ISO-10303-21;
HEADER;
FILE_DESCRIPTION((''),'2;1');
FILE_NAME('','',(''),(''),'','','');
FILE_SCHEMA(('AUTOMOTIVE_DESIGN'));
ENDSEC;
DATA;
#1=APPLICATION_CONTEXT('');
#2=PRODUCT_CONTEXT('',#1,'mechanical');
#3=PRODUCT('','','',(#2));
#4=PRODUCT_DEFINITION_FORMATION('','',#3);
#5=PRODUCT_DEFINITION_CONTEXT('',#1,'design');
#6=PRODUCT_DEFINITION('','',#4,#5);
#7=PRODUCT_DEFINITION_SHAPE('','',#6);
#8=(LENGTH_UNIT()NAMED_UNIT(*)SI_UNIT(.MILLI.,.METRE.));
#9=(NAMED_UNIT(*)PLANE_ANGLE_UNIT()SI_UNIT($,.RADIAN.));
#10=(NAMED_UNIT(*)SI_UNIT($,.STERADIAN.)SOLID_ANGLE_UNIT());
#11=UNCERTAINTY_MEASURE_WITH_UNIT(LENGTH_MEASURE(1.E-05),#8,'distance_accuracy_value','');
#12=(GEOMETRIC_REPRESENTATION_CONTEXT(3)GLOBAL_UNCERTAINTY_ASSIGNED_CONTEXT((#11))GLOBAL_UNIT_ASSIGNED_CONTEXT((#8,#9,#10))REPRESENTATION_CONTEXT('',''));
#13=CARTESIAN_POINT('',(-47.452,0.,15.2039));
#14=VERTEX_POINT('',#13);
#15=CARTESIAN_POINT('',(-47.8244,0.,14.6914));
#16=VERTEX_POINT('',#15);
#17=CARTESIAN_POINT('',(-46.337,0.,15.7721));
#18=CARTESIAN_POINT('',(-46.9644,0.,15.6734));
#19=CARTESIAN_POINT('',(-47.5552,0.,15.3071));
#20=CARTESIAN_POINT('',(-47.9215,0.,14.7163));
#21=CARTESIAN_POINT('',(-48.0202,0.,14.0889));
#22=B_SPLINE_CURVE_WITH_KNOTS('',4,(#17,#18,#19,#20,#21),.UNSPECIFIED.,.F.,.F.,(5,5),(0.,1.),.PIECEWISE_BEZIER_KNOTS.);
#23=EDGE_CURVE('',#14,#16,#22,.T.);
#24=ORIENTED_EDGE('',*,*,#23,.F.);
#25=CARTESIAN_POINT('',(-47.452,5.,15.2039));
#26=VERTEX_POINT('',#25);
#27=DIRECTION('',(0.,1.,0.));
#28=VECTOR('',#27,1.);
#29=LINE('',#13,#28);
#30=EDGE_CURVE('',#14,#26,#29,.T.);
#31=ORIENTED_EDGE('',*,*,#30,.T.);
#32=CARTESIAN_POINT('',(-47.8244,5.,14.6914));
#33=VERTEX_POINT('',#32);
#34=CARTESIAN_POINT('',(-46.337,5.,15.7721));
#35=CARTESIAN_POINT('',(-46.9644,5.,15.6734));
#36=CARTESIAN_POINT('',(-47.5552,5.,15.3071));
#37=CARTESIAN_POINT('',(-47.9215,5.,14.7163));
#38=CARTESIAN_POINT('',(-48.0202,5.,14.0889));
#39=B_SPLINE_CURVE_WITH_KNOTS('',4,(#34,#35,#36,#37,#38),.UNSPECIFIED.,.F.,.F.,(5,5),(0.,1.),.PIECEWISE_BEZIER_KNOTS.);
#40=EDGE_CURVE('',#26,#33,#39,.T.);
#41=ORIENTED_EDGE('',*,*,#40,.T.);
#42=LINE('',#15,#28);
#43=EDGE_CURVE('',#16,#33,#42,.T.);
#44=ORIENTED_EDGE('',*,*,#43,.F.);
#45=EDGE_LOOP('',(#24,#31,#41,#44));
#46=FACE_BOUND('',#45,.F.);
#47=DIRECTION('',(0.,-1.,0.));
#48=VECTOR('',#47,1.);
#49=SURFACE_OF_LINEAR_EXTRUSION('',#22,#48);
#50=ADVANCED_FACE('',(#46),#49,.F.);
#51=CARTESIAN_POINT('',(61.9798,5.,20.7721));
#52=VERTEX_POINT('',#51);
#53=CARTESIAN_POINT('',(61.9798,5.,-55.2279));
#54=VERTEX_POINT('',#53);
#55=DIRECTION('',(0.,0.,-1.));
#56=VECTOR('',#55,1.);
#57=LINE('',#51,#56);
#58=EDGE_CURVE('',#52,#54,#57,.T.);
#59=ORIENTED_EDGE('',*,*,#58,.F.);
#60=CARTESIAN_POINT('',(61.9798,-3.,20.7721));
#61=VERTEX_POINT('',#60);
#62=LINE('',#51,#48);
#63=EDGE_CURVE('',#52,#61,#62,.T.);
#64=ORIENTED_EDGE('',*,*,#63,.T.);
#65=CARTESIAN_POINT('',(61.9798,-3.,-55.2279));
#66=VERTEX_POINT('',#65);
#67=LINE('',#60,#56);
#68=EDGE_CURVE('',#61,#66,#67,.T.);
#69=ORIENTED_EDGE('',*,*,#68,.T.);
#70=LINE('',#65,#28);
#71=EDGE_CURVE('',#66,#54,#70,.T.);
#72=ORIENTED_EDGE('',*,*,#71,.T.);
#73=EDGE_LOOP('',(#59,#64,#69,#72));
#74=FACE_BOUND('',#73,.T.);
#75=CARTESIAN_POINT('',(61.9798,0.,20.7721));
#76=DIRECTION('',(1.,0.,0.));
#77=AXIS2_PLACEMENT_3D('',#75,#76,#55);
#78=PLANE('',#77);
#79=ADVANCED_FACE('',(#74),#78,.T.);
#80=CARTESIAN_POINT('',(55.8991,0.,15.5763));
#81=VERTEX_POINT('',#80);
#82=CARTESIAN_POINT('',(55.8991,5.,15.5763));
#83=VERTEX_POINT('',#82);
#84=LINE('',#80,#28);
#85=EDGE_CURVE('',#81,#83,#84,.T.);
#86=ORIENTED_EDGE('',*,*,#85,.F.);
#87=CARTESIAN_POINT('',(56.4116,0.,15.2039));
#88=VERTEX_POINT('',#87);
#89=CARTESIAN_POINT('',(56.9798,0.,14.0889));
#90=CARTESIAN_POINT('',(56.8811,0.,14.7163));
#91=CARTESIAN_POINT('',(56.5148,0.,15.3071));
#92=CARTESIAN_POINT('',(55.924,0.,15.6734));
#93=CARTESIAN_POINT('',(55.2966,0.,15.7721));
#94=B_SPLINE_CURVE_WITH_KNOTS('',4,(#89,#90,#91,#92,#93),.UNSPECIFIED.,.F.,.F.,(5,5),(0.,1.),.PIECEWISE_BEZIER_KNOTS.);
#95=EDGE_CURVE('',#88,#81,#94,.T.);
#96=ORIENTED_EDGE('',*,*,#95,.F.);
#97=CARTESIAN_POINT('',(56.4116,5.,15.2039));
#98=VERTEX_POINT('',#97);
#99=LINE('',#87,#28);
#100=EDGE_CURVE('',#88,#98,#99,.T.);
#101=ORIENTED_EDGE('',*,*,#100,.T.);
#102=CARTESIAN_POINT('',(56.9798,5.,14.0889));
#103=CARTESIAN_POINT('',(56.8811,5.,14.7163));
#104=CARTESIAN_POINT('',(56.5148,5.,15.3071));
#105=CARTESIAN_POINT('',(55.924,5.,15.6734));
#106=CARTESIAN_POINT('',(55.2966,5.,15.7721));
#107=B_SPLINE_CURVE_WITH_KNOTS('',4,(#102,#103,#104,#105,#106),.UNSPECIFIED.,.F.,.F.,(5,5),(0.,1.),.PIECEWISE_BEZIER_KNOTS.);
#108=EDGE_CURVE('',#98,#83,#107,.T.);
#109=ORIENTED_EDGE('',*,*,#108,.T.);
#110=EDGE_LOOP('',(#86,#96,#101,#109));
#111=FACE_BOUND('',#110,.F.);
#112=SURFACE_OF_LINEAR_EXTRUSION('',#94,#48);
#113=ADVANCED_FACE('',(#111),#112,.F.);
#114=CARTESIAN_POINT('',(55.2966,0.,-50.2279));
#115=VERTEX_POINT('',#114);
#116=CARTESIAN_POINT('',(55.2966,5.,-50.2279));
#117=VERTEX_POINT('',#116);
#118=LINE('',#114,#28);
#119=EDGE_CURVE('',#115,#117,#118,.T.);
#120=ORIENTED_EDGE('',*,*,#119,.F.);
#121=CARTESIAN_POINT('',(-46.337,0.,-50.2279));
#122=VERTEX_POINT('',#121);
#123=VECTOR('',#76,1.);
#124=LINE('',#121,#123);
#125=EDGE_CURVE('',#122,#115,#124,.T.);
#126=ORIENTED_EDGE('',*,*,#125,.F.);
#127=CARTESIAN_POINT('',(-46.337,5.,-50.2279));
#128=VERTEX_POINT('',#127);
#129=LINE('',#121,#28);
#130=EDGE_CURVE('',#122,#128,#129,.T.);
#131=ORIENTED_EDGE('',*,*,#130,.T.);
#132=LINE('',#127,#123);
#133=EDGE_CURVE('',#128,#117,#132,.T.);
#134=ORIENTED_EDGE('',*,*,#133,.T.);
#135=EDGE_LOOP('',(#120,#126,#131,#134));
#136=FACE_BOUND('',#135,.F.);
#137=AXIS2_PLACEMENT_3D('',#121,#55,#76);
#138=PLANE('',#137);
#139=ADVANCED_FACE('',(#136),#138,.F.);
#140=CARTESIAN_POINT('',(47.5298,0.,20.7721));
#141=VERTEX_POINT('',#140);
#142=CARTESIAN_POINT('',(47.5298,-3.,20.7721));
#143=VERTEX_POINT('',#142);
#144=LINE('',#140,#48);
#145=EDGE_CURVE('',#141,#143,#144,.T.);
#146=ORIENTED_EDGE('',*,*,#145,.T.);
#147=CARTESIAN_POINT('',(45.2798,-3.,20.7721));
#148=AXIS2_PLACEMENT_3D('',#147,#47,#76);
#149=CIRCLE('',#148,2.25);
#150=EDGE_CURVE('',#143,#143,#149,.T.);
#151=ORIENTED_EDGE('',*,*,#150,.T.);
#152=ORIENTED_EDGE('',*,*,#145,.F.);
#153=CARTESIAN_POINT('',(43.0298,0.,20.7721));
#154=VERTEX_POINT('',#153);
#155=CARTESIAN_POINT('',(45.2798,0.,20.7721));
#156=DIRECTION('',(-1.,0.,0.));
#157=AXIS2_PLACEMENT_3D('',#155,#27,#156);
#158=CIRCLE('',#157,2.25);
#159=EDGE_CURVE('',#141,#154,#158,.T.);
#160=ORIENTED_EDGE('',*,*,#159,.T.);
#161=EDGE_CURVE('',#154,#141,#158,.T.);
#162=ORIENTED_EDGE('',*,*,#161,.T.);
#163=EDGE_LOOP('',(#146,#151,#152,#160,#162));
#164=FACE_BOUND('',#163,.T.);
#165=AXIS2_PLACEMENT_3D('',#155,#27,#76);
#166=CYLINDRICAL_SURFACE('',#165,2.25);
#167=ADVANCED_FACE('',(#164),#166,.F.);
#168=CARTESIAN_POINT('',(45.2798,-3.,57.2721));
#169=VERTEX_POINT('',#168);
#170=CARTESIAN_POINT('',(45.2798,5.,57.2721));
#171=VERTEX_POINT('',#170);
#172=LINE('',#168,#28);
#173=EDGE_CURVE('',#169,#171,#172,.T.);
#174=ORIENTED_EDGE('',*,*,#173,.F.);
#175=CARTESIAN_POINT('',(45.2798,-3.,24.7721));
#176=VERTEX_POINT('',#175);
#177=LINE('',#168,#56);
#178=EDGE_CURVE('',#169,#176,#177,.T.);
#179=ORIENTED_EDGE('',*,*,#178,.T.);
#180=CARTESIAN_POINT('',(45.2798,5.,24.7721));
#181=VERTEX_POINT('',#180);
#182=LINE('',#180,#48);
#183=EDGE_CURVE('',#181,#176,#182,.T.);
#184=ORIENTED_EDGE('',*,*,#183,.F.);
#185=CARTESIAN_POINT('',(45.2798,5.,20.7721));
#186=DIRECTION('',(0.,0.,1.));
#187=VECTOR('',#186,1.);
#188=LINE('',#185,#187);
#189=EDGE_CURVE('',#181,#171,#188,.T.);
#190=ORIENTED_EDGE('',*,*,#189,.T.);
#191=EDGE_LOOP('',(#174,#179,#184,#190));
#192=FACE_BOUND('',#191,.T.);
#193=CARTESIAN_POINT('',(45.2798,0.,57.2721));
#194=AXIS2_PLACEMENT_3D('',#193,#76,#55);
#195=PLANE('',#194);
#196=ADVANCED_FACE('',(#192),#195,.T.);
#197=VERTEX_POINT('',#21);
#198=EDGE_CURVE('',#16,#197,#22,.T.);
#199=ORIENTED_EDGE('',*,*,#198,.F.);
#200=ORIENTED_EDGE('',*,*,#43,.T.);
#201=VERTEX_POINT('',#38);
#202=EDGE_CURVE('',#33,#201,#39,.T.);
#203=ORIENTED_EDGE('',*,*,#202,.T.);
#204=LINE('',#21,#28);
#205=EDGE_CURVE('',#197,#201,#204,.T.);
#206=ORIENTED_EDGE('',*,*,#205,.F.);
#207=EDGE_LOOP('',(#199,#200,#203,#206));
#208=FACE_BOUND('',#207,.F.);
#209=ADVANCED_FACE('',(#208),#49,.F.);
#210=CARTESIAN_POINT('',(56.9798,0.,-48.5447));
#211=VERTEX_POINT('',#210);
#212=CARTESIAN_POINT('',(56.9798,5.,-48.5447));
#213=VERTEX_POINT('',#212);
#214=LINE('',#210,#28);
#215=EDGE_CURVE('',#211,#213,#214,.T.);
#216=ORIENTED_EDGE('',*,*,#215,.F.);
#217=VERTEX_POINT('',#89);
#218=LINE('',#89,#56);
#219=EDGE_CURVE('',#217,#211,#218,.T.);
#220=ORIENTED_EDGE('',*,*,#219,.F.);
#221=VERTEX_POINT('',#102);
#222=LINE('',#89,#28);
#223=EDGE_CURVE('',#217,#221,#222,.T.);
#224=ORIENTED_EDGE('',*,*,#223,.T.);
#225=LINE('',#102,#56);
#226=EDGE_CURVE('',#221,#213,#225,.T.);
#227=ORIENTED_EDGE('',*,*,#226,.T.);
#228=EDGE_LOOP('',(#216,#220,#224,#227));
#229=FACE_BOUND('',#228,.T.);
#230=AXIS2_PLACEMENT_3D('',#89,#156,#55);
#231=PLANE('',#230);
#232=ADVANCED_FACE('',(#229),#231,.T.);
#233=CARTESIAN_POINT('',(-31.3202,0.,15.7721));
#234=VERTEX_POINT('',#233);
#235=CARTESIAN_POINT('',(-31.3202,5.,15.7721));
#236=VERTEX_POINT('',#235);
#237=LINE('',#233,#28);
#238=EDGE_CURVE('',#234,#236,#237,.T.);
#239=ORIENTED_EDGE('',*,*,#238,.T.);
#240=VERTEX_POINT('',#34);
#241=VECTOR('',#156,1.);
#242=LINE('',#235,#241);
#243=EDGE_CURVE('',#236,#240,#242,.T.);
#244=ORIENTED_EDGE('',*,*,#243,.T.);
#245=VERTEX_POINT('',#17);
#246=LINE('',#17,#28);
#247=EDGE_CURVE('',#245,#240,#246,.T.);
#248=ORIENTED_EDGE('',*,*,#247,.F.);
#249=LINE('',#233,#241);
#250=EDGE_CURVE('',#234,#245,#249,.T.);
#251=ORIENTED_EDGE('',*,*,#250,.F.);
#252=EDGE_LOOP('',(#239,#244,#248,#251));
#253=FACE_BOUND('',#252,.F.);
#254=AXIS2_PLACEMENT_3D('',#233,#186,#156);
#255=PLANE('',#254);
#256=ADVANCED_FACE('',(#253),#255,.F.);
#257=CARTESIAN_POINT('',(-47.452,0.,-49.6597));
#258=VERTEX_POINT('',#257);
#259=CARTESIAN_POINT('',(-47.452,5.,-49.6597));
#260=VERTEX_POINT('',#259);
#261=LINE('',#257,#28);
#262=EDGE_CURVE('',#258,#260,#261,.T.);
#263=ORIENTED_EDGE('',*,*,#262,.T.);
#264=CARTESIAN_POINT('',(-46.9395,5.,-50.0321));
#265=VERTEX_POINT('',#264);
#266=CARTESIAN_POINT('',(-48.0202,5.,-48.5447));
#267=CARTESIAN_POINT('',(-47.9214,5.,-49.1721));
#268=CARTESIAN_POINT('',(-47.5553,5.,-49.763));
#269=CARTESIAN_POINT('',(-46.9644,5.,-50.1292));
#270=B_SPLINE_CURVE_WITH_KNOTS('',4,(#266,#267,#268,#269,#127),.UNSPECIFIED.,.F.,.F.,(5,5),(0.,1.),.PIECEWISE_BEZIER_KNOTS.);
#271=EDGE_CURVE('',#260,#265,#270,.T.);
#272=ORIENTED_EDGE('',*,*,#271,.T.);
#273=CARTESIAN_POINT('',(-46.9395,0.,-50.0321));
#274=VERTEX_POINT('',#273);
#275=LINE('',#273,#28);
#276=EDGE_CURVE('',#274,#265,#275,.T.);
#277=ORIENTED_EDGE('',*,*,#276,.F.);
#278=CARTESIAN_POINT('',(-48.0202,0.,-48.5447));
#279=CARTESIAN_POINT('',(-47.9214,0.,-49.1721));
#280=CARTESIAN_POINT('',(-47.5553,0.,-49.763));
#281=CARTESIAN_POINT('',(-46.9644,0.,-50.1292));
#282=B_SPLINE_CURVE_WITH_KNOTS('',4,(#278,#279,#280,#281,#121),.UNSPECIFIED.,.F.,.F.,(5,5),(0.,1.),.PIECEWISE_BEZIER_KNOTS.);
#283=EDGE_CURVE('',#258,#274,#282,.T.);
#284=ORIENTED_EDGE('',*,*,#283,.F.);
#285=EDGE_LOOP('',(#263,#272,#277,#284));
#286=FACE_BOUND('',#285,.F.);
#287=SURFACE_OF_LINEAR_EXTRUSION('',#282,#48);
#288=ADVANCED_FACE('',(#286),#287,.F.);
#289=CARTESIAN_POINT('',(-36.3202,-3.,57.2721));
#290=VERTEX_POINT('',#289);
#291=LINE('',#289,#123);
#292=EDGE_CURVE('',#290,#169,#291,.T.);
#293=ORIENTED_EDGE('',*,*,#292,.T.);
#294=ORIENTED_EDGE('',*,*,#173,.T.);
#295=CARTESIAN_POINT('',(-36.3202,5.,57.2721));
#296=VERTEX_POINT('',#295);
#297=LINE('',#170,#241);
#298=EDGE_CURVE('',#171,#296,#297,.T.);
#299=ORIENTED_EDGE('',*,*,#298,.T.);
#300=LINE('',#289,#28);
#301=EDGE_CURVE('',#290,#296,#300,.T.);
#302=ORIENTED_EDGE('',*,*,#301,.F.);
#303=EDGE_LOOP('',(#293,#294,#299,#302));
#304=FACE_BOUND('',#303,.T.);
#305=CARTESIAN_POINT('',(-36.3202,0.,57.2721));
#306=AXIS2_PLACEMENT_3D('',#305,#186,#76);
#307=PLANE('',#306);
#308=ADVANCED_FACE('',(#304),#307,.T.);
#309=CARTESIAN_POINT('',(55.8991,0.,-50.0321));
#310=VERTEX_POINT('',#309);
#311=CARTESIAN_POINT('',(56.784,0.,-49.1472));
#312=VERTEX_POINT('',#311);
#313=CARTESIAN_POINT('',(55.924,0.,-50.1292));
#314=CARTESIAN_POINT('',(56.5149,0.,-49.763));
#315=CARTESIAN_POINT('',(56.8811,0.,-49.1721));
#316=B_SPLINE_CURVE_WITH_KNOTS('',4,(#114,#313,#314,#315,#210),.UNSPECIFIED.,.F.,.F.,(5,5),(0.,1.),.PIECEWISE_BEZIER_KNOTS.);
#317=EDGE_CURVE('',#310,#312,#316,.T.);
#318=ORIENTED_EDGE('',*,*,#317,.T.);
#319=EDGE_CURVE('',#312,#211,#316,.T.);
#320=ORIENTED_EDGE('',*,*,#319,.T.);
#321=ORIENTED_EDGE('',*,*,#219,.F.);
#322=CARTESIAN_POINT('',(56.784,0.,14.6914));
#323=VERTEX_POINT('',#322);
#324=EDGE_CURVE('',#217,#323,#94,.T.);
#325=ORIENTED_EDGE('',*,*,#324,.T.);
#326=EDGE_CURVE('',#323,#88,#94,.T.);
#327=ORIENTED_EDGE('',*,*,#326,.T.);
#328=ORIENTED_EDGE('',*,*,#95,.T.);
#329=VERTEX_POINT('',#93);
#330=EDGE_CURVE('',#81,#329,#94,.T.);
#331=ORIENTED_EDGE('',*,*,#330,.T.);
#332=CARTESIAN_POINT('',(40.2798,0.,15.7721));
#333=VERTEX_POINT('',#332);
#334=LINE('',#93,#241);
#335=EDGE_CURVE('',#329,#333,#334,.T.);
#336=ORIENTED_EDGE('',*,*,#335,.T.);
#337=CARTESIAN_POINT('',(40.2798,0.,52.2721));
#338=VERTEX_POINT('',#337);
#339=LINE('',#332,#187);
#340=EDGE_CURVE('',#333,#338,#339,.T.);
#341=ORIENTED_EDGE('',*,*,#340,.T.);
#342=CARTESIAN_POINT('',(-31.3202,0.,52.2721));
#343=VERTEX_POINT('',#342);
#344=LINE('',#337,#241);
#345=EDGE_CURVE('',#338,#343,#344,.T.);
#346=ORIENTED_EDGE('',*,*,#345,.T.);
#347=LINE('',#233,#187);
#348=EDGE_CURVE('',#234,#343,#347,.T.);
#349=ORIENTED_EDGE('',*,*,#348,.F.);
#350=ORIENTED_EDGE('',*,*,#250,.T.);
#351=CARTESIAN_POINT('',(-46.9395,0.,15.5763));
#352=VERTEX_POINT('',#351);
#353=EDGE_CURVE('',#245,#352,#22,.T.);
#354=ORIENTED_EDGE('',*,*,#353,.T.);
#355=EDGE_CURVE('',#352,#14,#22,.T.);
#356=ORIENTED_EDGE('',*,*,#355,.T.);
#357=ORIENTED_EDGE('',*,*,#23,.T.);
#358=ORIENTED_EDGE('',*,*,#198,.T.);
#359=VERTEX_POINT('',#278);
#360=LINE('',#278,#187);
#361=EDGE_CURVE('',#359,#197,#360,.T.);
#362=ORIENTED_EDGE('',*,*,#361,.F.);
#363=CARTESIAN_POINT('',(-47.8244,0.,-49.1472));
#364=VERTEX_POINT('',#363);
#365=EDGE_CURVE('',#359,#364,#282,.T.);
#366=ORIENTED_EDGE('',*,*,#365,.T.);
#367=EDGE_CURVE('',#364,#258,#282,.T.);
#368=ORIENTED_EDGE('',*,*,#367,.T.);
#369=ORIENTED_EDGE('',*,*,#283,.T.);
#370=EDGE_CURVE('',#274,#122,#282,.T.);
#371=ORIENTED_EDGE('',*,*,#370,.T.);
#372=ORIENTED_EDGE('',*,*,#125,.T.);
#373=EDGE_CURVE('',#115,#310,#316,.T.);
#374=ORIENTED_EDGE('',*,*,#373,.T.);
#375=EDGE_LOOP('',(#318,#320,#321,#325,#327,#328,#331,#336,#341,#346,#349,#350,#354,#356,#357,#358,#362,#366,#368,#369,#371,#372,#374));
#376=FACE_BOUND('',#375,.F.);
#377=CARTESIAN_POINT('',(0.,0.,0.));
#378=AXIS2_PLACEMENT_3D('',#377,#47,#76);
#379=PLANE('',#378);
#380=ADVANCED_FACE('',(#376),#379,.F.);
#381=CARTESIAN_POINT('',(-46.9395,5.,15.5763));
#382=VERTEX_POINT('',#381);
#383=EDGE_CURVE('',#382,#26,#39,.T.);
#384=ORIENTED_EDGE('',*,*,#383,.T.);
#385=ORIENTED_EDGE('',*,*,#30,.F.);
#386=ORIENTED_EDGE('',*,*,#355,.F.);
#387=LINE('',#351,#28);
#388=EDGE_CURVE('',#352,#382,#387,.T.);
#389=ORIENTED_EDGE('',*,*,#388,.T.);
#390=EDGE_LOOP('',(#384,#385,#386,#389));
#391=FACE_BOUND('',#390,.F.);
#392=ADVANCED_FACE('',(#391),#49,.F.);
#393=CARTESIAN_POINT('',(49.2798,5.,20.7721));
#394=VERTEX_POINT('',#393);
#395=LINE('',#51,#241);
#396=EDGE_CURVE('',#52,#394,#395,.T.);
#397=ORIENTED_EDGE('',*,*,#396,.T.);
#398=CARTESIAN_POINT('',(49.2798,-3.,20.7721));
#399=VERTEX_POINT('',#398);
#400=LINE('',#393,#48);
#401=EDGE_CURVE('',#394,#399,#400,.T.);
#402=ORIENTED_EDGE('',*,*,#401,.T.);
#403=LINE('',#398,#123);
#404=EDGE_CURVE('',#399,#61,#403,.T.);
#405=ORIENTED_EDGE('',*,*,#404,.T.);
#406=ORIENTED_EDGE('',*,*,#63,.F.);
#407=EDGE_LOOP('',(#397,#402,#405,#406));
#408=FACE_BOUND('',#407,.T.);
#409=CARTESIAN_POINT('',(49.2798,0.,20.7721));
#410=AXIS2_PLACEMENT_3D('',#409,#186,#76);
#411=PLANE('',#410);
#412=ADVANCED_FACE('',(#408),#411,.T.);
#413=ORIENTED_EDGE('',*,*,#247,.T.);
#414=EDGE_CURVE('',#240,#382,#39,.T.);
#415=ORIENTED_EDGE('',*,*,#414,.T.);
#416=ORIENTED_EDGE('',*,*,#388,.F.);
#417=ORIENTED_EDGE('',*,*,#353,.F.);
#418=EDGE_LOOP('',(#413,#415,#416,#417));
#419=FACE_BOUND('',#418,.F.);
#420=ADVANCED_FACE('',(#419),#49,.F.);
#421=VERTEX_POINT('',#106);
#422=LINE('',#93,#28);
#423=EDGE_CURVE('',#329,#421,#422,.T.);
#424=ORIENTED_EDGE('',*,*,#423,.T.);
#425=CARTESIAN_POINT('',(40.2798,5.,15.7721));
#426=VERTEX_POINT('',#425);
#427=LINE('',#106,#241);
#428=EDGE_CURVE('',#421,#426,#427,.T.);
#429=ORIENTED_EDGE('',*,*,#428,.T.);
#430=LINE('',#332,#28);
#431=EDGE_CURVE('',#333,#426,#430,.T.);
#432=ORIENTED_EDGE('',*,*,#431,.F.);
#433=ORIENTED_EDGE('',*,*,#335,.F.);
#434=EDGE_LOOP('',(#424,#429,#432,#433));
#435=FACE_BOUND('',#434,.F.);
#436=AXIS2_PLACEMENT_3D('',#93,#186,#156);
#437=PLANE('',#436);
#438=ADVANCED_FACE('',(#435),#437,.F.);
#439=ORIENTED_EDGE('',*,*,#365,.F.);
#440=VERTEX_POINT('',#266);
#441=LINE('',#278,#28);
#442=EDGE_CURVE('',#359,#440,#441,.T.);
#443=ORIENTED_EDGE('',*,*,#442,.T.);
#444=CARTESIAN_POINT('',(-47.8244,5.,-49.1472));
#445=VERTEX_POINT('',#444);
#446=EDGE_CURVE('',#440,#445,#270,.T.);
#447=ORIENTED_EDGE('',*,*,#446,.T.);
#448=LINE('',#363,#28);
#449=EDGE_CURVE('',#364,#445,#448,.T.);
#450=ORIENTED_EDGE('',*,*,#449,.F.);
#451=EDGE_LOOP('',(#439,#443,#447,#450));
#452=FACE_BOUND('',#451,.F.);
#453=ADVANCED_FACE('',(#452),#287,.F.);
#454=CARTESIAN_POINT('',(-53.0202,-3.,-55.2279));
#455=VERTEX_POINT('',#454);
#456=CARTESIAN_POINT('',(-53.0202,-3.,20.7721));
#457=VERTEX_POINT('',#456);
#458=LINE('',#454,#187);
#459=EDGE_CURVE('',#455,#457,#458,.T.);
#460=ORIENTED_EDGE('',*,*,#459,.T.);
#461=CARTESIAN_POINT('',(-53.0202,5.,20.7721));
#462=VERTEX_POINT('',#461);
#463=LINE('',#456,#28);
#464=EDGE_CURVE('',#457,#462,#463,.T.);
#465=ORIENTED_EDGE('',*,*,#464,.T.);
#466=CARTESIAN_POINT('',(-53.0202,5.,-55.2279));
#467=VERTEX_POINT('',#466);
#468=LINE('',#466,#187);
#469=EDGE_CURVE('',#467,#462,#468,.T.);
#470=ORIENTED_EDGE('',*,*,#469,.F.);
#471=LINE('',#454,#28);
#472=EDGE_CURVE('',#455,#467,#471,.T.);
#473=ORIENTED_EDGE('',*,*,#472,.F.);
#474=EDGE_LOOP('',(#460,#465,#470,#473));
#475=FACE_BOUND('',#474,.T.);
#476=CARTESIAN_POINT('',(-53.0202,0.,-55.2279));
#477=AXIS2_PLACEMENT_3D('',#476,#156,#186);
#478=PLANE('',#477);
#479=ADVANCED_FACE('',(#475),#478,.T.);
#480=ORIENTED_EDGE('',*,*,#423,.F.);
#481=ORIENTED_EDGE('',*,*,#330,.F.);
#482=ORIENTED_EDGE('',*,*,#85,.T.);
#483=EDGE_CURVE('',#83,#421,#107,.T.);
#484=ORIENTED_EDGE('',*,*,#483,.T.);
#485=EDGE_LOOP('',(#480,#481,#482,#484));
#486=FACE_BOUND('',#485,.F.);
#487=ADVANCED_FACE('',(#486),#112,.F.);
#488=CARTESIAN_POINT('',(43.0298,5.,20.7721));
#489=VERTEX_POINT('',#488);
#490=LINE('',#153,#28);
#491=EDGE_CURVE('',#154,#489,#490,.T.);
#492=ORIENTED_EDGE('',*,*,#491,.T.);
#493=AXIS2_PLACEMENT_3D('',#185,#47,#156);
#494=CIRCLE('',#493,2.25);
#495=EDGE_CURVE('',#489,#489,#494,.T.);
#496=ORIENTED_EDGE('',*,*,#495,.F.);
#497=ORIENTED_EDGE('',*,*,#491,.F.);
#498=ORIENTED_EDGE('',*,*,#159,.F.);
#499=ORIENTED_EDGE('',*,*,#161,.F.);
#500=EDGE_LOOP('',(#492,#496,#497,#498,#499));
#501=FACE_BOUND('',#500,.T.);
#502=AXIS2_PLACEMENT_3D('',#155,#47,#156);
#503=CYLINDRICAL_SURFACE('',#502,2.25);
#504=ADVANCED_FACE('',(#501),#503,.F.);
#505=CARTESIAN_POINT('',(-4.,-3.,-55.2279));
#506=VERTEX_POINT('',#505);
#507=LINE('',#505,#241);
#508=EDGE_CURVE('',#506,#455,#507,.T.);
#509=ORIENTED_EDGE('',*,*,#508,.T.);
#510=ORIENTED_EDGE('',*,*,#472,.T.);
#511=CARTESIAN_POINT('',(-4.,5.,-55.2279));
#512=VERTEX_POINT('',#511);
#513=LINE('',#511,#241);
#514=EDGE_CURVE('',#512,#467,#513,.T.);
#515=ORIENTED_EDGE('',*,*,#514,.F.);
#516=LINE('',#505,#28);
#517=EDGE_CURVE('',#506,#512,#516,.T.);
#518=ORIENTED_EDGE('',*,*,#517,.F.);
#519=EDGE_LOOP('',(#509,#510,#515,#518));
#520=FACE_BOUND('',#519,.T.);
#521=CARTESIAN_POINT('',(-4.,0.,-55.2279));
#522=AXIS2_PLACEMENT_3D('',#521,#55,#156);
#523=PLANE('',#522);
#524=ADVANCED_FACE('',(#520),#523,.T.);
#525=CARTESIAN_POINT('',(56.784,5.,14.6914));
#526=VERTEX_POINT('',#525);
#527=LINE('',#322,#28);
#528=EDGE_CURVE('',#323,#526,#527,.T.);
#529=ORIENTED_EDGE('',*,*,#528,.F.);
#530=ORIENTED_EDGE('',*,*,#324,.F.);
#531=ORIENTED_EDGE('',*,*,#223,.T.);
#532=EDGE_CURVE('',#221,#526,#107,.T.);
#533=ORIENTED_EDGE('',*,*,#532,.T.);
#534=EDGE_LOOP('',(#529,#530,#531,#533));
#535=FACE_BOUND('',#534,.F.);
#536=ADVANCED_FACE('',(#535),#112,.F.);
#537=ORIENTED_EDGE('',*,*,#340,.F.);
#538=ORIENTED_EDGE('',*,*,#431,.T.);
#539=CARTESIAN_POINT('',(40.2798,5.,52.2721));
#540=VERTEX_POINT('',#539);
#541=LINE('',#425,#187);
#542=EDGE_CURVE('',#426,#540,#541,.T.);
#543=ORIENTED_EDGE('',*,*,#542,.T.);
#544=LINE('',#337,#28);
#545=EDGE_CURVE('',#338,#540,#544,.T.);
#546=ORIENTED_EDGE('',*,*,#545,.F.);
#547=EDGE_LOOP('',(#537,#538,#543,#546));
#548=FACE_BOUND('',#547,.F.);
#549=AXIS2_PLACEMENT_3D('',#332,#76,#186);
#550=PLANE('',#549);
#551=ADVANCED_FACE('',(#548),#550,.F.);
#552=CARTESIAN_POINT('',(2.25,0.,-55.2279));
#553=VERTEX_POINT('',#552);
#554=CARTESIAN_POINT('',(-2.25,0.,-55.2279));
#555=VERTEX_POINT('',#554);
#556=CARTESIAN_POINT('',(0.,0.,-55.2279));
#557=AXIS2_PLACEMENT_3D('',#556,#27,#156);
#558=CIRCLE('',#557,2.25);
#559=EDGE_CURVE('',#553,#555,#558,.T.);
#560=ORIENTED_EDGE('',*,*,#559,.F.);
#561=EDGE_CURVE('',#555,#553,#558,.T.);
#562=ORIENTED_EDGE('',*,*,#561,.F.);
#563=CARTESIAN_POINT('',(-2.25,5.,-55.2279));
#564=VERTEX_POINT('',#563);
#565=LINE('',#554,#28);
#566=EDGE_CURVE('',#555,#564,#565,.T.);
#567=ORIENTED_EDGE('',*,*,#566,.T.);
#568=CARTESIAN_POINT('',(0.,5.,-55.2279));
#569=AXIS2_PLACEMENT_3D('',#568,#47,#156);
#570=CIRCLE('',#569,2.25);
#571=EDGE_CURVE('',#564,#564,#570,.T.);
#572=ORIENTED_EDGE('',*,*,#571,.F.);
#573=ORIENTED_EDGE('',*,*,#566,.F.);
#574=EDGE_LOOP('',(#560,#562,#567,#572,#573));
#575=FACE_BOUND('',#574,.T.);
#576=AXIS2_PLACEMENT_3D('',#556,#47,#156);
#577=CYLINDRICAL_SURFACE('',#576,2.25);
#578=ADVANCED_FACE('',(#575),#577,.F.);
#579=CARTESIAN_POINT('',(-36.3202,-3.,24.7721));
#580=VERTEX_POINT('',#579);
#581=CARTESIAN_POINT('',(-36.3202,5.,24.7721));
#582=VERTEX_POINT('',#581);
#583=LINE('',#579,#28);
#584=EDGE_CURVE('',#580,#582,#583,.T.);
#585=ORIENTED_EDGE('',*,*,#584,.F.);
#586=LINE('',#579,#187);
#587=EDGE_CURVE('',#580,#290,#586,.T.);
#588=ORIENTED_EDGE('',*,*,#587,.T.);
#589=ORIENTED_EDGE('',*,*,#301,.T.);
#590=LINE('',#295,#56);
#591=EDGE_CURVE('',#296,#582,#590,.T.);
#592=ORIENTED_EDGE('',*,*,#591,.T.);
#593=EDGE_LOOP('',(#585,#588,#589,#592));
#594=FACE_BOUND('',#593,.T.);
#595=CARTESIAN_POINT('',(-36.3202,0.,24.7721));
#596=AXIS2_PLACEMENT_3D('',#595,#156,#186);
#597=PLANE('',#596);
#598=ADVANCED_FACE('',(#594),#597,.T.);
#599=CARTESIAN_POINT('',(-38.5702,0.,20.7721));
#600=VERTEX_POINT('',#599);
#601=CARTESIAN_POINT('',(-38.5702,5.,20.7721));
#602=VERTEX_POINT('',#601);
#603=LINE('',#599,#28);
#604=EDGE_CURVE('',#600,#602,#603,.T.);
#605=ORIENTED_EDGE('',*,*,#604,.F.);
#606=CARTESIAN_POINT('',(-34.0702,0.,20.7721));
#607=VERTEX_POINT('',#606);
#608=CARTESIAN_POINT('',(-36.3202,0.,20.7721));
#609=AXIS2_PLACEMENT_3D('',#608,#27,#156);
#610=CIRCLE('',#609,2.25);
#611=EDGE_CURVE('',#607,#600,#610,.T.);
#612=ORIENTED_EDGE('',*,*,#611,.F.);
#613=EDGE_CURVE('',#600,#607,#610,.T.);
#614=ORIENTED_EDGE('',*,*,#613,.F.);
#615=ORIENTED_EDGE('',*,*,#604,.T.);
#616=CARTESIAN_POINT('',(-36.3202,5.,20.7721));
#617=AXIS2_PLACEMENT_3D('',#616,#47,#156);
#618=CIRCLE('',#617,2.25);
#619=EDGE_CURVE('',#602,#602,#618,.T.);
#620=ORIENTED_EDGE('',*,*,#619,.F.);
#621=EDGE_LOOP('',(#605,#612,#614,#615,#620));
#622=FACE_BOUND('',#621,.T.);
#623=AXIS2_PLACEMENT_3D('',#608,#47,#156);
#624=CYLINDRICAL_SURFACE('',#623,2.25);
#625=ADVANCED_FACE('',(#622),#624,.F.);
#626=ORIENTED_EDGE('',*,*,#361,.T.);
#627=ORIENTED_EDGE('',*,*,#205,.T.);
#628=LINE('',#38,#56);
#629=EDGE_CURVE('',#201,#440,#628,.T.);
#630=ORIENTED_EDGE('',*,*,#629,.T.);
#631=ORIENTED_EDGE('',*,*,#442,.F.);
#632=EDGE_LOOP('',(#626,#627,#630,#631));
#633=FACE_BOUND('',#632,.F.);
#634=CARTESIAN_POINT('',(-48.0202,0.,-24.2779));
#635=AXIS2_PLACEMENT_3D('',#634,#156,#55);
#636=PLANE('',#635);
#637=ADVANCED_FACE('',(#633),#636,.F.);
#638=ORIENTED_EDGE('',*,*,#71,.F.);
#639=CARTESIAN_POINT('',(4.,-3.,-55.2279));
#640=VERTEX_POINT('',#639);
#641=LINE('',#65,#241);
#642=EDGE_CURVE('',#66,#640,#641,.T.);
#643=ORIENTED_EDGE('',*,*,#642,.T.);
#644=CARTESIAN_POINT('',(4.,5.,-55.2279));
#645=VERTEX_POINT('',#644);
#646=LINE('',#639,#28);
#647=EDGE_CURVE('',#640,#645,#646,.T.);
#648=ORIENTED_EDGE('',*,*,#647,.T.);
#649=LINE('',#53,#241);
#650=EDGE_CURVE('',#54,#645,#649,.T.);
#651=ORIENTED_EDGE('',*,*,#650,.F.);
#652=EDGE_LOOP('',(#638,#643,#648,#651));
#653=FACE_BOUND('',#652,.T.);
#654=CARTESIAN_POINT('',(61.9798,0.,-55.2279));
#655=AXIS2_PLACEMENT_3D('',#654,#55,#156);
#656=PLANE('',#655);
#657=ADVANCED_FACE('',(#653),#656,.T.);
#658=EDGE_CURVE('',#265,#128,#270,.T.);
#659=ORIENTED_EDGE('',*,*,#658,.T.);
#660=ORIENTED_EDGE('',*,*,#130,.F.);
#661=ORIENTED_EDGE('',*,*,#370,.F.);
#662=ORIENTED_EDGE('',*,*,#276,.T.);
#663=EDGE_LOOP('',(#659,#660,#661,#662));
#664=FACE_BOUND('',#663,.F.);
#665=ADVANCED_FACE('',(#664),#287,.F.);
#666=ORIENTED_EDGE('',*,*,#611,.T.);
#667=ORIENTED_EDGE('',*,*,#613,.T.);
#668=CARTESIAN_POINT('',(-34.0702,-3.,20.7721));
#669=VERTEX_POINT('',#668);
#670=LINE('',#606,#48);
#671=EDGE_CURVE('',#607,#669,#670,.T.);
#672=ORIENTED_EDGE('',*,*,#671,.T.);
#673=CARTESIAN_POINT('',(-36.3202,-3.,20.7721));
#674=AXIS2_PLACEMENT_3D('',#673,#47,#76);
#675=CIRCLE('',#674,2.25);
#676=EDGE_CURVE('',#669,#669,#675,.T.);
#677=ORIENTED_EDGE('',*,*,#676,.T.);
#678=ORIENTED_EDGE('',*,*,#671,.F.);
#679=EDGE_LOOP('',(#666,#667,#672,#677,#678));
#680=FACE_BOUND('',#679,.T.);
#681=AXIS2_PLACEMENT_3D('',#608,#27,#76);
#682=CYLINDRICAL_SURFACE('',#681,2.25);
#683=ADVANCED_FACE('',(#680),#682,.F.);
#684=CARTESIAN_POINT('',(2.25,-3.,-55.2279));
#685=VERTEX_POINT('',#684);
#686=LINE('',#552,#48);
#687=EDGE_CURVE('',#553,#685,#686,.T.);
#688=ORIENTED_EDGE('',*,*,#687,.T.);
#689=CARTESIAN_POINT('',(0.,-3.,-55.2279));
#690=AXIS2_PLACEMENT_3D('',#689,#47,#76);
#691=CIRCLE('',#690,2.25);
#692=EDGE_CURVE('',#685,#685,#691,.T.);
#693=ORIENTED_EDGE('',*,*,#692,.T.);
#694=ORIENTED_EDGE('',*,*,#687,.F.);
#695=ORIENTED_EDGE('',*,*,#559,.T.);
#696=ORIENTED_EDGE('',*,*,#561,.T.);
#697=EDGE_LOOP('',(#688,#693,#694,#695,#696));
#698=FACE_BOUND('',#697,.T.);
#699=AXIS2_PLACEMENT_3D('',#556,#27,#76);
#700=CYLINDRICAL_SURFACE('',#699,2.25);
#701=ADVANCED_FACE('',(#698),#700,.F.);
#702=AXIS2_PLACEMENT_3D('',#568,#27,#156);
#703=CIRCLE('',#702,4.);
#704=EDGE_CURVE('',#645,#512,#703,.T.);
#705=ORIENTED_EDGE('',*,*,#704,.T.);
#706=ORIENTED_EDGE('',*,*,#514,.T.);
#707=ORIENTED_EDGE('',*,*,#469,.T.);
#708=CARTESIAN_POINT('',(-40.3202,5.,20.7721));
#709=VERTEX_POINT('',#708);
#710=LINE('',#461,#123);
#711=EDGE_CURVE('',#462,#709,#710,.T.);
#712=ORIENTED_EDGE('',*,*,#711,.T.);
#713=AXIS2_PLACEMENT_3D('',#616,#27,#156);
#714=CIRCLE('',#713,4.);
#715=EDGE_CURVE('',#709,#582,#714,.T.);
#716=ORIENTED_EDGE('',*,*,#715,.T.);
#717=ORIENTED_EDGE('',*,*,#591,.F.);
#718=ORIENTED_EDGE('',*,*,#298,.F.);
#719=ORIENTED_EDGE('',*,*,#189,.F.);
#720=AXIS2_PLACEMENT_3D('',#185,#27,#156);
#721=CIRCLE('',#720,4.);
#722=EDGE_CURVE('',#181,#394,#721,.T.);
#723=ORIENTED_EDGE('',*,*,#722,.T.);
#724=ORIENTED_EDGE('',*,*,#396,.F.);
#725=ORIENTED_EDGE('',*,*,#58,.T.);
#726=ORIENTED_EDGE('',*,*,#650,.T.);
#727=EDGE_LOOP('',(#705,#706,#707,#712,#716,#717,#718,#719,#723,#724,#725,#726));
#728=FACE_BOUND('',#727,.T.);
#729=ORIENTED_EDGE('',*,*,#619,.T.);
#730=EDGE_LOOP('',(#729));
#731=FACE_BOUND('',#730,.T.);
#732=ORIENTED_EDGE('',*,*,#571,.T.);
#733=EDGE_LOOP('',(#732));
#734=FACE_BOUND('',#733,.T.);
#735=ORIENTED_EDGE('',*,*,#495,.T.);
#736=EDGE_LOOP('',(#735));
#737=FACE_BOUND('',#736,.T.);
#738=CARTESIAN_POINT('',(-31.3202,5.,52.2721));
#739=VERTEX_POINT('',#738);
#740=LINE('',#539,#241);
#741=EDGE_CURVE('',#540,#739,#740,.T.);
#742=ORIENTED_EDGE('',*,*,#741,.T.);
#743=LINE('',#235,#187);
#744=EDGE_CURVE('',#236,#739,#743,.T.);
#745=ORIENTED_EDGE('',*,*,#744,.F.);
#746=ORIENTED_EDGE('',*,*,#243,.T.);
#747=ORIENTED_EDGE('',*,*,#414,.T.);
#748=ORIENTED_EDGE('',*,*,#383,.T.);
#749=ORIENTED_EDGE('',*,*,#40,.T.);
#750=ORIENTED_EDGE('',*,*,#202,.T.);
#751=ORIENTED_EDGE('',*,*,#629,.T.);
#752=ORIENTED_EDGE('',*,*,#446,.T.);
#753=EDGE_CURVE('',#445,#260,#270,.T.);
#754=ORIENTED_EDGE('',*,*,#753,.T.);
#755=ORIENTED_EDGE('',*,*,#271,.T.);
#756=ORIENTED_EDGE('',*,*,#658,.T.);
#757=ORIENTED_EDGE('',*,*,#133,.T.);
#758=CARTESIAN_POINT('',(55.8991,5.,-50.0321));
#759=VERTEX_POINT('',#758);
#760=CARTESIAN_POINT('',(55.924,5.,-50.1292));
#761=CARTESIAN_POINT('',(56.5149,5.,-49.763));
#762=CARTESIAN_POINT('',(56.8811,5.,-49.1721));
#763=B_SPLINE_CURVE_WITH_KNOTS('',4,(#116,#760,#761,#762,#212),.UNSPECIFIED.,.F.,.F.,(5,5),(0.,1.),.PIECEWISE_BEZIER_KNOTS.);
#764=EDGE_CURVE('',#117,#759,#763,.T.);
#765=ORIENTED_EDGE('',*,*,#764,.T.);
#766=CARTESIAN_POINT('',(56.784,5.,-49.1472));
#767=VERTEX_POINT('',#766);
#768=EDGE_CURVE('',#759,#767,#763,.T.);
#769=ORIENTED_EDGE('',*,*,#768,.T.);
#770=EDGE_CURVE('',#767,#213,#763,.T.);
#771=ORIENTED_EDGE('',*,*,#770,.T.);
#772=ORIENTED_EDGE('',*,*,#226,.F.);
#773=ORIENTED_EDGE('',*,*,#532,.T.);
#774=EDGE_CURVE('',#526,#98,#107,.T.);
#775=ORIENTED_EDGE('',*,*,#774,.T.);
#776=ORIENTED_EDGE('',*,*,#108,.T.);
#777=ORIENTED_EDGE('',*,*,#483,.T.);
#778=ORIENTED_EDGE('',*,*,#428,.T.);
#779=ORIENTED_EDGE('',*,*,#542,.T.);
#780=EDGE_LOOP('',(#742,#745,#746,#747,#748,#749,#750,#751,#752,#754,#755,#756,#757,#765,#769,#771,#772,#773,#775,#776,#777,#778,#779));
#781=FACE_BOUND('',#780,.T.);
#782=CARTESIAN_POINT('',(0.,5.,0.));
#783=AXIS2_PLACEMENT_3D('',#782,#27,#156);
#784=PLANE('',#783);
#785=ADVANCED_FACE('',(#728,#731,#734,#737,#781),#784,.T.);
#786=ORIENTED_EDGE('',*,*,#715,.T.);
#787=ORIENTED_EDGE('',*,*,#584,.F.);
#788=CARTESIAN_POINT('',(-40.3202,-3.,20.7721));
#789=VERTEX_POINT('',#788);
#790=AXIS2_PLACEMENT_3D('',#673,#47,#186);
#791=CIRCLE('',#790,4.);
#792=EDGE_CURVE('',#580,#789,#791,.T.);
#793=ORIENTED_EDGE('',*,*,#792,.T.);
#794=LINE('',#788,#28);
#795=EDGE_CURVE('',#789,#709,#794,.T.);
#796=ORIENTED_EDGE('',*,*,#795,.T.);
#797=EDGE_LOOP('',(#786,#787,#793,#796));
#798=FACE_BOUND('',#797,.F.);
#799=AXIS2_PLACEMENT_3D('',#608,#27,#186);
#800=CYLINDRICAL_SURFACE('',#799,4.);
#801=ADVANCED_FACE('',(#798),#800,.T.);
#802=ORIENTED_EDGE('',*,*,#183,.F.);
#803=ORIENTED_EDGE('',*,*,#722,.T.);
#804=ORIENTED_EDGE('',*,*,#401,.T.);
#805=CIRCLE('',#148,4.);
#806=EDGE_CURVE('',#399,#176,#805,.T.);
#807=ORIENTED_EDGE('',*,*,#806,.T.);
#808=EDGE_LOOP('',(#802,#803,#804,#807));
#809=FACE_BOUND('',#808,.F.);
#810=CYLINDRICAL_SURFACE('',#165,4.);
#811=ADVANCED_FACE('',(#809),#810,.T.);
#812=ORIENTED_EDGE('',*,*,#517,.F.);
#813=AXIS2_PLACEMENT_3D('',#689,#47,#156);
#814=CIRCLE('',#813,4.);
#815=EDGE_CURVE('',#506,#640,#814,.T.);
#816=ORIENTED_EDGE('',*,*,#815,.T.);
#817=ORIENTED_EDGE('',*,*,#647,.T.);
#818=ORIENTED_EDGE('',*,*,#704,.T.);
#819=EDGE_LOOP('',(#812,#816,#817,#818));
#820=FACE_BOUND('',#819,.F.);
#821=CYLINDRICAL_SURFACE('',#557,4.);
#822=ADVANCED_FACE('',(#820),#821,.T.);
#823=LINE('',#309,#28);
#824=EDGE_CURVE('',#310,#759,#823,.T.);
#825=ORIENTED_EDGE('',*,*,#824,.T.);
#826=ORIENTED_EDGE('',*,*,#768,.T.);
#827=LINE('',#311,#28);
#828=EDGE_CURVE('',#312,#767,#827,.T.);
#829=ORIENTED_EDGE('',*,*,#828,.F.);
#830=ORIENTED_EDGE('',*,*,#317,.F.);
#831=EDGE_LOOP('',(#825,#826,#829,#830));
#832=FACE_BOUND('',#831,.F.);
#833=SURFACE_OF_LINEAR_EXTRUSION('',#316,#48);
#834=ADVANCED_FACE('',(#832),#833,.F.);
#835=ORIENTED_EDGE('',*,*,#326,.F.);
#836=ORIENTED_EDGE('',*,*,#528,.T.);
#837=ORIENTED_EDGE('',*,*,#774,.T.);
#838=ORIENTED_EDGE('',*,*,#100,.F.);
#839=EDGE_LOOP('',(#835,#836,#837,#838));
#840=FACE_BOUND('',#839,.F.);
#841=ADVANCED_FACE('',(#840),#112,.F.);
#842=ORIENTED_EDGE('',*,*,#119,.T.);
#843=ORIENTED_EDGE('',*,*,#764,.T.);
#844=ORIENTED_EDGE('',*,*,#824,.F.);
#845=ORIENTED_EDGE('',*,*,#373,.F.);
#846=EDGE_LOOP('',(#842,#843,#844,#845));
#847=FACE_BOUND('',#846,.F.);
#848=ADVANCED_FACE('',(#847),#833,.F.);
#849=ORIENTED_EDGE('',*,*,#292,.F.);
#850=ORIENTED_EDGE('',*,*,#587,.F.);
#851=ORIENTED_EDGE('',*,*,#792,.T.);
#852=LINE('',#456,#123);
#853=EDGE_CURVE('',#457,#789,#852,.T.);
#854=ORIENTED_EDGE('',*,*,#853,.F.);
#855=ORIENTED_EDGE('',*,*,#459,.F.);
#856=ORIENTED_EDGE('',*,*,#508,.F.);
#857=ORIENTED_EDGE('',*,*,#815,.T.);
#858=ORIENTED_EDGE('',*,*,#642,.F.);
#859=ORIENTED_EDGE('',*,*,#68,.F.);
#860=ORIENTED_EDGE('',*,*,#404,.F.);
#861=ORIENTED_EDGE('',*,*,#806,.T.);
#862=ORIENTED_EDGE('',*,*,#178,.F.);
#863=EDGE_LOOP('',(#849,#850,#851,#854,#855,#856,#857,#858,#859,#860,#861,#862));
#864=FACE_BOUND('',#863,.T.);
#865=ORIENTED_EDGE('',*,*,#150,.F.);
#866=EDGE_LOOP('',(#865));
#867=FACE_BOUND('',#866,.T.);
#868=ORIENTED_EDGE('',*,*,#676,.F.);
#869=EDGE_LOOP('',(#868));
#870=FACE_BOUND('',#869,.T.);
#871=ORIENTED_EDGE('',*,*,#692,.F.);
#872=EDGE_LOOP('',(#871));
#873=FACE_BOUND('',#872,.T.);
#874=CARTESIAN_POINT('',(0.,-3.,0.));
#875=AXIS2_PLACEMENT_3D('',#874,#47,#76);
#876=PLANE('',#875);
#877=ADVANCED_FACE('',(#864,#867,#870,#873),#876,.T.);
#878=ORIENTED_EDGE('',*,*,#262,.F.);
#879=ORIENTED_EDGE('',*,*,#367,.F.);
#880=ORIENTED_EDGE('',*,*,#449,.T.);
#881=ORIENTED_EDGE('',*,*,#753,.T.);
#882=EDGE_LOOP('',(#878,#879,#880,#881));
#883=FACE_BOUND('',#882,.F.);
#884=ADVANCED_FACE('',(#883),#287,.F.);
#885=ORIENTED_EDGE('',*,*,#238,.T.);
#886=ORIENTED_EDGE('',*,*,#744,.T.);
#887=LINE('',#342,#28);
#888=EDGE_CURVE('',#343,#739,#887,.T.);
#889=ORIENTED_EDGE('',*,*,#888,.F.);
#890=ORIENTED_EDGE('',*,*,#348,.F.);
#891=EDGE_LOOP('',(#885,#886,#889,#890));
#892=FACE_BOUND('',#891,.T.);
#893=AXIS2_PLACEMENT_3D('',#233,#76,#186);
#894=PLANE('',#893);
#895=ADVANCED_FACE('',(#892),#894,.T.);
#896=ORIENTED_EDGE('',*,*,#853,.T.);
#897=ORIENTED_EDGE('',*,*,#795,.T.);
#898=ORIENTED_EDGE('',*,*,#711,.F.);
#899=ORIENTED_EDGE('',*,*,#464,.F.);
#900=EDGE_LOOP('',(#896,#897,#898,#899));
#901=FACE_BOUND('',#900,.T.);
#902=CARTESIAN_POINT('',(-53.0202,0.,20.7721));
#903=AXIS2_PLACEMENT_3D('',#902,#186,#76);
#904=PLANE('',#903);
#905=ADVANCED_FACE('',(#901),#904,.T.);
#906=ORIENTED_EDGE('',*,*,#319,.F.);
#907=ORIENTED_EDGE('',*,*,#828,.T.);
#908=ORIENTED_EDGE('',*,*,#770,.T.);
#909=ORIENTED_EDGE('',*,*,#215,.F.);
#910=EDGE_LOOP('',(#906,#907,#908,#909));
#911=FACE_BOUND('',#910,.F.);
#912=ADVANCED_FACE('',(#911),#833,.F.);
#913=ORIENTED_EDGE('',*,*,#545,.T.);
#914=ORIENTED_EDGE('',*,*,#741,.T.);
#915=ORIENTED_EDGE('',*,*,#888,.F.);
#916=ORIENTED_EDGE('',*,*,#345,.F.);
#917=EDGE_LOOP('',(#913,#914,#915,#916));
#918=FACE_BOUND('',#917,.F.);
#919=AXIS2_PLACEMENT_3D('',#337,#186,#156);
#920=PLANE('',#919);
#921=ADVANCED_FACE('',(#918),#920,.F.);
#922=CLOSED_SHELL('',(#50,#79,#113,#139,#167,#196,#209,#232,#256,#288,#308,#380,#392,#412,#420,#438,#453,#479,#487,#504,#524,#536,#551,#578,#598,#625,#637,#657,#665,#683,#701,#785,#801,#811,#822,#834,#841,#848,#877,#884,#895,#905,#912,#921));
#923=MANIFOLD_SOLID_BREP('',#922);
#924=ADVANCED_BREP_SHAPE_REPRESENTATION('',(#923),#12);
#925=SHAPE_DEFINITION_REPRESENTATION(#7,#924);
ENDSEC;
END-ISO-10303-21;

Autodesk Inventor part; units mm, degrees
ref_plane "YZ Plane" through (0, 0, 0) normal (1, 0, 0) x (0, 1, 0)
ref_plane "XZ Plane" through (0, 0, 0) normal (0, 1, 0) x (-1, 0, 0)
ref_plane "XY Plane" through (0, 0, 0) normal (0, 0, 1) x (1, 0, 0)
sketch "Sketch1" plane through (0, 0, 0) normal (0, 1, 0) x (-1, 0, 0)
  line L0 (-40.2798, 52.2721) -> (31.3202, 52.2721)
  line L1 (-40.2798, 15.7721) -> (-40.2798, 52.2721)
  line L2 (-55.2966, 15.7721) -> (-40.2798, 15.7721)
  line L3 (-56.9798, 14.0889) -> (-56.9798, -48.5447)
  line L4 (46.337, -50.2279) -> (-55.2966, -50.2279)
  line L5 (48.0202, -24.2779) -> (48.0202, -48.5447)
  line L6 (48.0202, -9.7779) -> (48.0202, 14.0889)
  line L7 (31.3202, 15.7721) -> (46.337, 15.7721)
  line L8 (31.3202, 15.7721) -> (31.3202, 52.2721)
  line L9 (-56.784, 14.6914) -> (-56.9798, 14.0889)
  line L10 (-56.784, 14.6914) -> (-56.4116, 15.2039)
  line L11 (-55.2966, 15.7721) -> (-55.8991, 15.5763)
  line L12 (-56.4116, 15.2039) -> (-55.8991, 15.5763)
  spline S0 degree 4 poles (-56.9798, 14.0889) (-56.8811, 14.7163) (-56.5148, 15.3071) (-55.924, 15.6734) (-55.2966, 15.7721) knots 0 0 0 0 0 1 1 1 1 1
  line L13 (47.8244, 14.6914) -> (47.452, 15.2039)
  line L14 (46.337, 15.7721) -> (46.9395, 15.5763)
  line L15 (47.8244, 14.6914) -> (48.0202, 14.0889)
  line L16 (46.9395, 15.5763) -> (47.452, 15.2039)
  spline S1 degree 4 poles (46.337, 15.7721) (46.9644, 15.6734) (47.5552, 15.3071) (47.9215, 14.7163) (48.0202, 14.0889) knots 0 0 0 0 0 1 1 1 1 1
  line L17 (46.337, -50.2279) -> (46.9395, -50.0321)
  line L18 (47.452, -49.6597) -> (47.8244, -49.1472)
  line L19 (47.452, -49.6597) -> (46.9395, -50.0321)
  spline S2 degree 4 poles (48.0202, -48.5447) (47.9214, -49.1721) (47.5553, -49.763) (46.9644, -50.1292) (46.337, -50.2279) knots 0 0 0 0 0 1 1 1 1 1
  line L20 (-56.9798, -48.5447) -> (-56.784, -49.1472)
  line L21 (-55.2966, -50.2279) -> (-55.8991, -50.0321)
  spline S3 degree 4 poles (-55.2966, -50.2279) (-55.924, -50.1292) (-56.5149, -49.763) (-56.8811, -49.1721) (-56.9798, -48.5447) knots 0 0 0 0 0 1 1 1 1 1
  line L22 (48.0202, -9.7779) -> (48.0202, -24.2779)
  line L23 (-55.2966, 20.7721) -> (-45.2798, 20.7721)
  line L24 (-45.2798, 20.7721) -> (-45.2798, 57.2721)
  line L25 (-45.2798, 57.2721) -> (36.3202, 57.2721)
  line L26 (36.3202, 57.2721) -> (36.3202, 20.7721)
  line L27 (46.337, -55.2279) -> (-55.2966, -55.2279)
  line L28 (-61.9798, -48.5447) -> (-61.9798, 14.8809)
  line L29 (-45.2798, 20.7721) -> (-61.9798, 20.7721)
  line L30 (-61.9798, 20.7721) -> (-61.9798, -55.2279)
  line L31 (-61.9798, -55.2279) -> (53.0202, -55.2279)
  line L32 (53.0202, -55.2279) -> (53.0202, 20.7721)
  line L33 (53.0202, 20.7721) -> (36.3202, 20.7721)
  circle A0 centre (-45.2798, 20.7721) radius 2.25
  circle A1 centre (36.3202, 20.7721) radius 2.25
  circle A2 centre (0, -55.2279) radius 2.25
  circle A3 centre (36.3202, 20.7721) radius 4
  circle A4 centre (-45.2798, 20.7721) radius 4
  circle A5 centre (0, -55.2279) radius 4
  point P0 (0, 0)
  point P1 (32.0202, -45.2279)
  point P2 (-56.4116, -49.6597)
  point P3 (-56.4116, -49.6597)
  point P4 (40.3202, 20.7721)
  point P5 (36.3202, 24.7721)
  point P6 (-45.2798, 24.7721)
  point P7 (-49.2798, 20.7721)
  point P8 (-4, -55.2279)
  point P9 (4, -55.2279)
  point P10 (-56.9798, 14.0889)
  dimension "d0" = 5
  dimension "d2" = 5
  dimension "d3" = 5
  dimension "d4" = 4.5
  dimension "d5" = 4.5
  dimension "d6" = 4.5
  dimension "d7" = 8
  dimension "d8" = 8
  dimension "d9" = 8
extrude "Extrusion1" add sketch "Sketch1" along normal blind 5 contours L23 A4 L24 L25 L26 A3 L33 L32 L31 L27 A5 L30 L28 L29 | A4 L24 A0 L23 | L23 A0 L24 A4 | A3 L33 A1 L26 | L26 A1 L33 A3 | A5 L27 A2 | L27 A2 A5
sketch "Sketch2" plane through (0, 0, 0) normal (0, -1, 0) x (1, 0, 0)
  line L0 (61.9798, 20.7721) -> (61.9798, -55.2279) projected
  line L1 (49.2798, 20.7721) -> (61.9798, 20.7721) projected
  arc A0 (49.2798, 20.7721) -> (45.2798, 24.7721) centre (45.2798, 20.7721) ccw projected
  line L2 (45.2798, 57.2721) -> (45.2798, 24.7721) projected
  line L3 (-36.3202, 57.2721) -> (45.2798, 57.2721) projected
  line L4 (-36.3202, 24.7721) -> (-36.3202, 57.2721) projected
  arc A1 (-36.3202, 24.7721) -> (-40.3202, 20.7721) centre (-36.3202, 20.7721) ccw projected
  line L5 (-53.0202, 20.7721) -> (-40.3202, 20.7721) projected
  line L6 (-53.0202, -55.2279) -> (-53.0202, 20.7721) projected
  line L7 (-4, -55.2279) -> (-53.0202, -55.2279) projected
  arc A2 (-4, -55.2279) -> (4, -55.2279) centre (0, -55.2279) ccw projected
  line L8 (61.9798, -55.2279) -> (4, -55.2279) projected
  circle A3 centre (45.2798, 20.7721) radius 2.25 projected
  circle A4 centre (45.2798, 20.7721) radius 2.25
  circle A5 centre (0, -55.2279) radius 2.25
  circle A6 centre (-36.3202, 20.7721) radius 2.25
  point P0 (0, 0)
extrude "Extrusion2" add sketch "Sketch2" along normal blind 3
properties part number "raspberry-coral-chasis-fastening"
